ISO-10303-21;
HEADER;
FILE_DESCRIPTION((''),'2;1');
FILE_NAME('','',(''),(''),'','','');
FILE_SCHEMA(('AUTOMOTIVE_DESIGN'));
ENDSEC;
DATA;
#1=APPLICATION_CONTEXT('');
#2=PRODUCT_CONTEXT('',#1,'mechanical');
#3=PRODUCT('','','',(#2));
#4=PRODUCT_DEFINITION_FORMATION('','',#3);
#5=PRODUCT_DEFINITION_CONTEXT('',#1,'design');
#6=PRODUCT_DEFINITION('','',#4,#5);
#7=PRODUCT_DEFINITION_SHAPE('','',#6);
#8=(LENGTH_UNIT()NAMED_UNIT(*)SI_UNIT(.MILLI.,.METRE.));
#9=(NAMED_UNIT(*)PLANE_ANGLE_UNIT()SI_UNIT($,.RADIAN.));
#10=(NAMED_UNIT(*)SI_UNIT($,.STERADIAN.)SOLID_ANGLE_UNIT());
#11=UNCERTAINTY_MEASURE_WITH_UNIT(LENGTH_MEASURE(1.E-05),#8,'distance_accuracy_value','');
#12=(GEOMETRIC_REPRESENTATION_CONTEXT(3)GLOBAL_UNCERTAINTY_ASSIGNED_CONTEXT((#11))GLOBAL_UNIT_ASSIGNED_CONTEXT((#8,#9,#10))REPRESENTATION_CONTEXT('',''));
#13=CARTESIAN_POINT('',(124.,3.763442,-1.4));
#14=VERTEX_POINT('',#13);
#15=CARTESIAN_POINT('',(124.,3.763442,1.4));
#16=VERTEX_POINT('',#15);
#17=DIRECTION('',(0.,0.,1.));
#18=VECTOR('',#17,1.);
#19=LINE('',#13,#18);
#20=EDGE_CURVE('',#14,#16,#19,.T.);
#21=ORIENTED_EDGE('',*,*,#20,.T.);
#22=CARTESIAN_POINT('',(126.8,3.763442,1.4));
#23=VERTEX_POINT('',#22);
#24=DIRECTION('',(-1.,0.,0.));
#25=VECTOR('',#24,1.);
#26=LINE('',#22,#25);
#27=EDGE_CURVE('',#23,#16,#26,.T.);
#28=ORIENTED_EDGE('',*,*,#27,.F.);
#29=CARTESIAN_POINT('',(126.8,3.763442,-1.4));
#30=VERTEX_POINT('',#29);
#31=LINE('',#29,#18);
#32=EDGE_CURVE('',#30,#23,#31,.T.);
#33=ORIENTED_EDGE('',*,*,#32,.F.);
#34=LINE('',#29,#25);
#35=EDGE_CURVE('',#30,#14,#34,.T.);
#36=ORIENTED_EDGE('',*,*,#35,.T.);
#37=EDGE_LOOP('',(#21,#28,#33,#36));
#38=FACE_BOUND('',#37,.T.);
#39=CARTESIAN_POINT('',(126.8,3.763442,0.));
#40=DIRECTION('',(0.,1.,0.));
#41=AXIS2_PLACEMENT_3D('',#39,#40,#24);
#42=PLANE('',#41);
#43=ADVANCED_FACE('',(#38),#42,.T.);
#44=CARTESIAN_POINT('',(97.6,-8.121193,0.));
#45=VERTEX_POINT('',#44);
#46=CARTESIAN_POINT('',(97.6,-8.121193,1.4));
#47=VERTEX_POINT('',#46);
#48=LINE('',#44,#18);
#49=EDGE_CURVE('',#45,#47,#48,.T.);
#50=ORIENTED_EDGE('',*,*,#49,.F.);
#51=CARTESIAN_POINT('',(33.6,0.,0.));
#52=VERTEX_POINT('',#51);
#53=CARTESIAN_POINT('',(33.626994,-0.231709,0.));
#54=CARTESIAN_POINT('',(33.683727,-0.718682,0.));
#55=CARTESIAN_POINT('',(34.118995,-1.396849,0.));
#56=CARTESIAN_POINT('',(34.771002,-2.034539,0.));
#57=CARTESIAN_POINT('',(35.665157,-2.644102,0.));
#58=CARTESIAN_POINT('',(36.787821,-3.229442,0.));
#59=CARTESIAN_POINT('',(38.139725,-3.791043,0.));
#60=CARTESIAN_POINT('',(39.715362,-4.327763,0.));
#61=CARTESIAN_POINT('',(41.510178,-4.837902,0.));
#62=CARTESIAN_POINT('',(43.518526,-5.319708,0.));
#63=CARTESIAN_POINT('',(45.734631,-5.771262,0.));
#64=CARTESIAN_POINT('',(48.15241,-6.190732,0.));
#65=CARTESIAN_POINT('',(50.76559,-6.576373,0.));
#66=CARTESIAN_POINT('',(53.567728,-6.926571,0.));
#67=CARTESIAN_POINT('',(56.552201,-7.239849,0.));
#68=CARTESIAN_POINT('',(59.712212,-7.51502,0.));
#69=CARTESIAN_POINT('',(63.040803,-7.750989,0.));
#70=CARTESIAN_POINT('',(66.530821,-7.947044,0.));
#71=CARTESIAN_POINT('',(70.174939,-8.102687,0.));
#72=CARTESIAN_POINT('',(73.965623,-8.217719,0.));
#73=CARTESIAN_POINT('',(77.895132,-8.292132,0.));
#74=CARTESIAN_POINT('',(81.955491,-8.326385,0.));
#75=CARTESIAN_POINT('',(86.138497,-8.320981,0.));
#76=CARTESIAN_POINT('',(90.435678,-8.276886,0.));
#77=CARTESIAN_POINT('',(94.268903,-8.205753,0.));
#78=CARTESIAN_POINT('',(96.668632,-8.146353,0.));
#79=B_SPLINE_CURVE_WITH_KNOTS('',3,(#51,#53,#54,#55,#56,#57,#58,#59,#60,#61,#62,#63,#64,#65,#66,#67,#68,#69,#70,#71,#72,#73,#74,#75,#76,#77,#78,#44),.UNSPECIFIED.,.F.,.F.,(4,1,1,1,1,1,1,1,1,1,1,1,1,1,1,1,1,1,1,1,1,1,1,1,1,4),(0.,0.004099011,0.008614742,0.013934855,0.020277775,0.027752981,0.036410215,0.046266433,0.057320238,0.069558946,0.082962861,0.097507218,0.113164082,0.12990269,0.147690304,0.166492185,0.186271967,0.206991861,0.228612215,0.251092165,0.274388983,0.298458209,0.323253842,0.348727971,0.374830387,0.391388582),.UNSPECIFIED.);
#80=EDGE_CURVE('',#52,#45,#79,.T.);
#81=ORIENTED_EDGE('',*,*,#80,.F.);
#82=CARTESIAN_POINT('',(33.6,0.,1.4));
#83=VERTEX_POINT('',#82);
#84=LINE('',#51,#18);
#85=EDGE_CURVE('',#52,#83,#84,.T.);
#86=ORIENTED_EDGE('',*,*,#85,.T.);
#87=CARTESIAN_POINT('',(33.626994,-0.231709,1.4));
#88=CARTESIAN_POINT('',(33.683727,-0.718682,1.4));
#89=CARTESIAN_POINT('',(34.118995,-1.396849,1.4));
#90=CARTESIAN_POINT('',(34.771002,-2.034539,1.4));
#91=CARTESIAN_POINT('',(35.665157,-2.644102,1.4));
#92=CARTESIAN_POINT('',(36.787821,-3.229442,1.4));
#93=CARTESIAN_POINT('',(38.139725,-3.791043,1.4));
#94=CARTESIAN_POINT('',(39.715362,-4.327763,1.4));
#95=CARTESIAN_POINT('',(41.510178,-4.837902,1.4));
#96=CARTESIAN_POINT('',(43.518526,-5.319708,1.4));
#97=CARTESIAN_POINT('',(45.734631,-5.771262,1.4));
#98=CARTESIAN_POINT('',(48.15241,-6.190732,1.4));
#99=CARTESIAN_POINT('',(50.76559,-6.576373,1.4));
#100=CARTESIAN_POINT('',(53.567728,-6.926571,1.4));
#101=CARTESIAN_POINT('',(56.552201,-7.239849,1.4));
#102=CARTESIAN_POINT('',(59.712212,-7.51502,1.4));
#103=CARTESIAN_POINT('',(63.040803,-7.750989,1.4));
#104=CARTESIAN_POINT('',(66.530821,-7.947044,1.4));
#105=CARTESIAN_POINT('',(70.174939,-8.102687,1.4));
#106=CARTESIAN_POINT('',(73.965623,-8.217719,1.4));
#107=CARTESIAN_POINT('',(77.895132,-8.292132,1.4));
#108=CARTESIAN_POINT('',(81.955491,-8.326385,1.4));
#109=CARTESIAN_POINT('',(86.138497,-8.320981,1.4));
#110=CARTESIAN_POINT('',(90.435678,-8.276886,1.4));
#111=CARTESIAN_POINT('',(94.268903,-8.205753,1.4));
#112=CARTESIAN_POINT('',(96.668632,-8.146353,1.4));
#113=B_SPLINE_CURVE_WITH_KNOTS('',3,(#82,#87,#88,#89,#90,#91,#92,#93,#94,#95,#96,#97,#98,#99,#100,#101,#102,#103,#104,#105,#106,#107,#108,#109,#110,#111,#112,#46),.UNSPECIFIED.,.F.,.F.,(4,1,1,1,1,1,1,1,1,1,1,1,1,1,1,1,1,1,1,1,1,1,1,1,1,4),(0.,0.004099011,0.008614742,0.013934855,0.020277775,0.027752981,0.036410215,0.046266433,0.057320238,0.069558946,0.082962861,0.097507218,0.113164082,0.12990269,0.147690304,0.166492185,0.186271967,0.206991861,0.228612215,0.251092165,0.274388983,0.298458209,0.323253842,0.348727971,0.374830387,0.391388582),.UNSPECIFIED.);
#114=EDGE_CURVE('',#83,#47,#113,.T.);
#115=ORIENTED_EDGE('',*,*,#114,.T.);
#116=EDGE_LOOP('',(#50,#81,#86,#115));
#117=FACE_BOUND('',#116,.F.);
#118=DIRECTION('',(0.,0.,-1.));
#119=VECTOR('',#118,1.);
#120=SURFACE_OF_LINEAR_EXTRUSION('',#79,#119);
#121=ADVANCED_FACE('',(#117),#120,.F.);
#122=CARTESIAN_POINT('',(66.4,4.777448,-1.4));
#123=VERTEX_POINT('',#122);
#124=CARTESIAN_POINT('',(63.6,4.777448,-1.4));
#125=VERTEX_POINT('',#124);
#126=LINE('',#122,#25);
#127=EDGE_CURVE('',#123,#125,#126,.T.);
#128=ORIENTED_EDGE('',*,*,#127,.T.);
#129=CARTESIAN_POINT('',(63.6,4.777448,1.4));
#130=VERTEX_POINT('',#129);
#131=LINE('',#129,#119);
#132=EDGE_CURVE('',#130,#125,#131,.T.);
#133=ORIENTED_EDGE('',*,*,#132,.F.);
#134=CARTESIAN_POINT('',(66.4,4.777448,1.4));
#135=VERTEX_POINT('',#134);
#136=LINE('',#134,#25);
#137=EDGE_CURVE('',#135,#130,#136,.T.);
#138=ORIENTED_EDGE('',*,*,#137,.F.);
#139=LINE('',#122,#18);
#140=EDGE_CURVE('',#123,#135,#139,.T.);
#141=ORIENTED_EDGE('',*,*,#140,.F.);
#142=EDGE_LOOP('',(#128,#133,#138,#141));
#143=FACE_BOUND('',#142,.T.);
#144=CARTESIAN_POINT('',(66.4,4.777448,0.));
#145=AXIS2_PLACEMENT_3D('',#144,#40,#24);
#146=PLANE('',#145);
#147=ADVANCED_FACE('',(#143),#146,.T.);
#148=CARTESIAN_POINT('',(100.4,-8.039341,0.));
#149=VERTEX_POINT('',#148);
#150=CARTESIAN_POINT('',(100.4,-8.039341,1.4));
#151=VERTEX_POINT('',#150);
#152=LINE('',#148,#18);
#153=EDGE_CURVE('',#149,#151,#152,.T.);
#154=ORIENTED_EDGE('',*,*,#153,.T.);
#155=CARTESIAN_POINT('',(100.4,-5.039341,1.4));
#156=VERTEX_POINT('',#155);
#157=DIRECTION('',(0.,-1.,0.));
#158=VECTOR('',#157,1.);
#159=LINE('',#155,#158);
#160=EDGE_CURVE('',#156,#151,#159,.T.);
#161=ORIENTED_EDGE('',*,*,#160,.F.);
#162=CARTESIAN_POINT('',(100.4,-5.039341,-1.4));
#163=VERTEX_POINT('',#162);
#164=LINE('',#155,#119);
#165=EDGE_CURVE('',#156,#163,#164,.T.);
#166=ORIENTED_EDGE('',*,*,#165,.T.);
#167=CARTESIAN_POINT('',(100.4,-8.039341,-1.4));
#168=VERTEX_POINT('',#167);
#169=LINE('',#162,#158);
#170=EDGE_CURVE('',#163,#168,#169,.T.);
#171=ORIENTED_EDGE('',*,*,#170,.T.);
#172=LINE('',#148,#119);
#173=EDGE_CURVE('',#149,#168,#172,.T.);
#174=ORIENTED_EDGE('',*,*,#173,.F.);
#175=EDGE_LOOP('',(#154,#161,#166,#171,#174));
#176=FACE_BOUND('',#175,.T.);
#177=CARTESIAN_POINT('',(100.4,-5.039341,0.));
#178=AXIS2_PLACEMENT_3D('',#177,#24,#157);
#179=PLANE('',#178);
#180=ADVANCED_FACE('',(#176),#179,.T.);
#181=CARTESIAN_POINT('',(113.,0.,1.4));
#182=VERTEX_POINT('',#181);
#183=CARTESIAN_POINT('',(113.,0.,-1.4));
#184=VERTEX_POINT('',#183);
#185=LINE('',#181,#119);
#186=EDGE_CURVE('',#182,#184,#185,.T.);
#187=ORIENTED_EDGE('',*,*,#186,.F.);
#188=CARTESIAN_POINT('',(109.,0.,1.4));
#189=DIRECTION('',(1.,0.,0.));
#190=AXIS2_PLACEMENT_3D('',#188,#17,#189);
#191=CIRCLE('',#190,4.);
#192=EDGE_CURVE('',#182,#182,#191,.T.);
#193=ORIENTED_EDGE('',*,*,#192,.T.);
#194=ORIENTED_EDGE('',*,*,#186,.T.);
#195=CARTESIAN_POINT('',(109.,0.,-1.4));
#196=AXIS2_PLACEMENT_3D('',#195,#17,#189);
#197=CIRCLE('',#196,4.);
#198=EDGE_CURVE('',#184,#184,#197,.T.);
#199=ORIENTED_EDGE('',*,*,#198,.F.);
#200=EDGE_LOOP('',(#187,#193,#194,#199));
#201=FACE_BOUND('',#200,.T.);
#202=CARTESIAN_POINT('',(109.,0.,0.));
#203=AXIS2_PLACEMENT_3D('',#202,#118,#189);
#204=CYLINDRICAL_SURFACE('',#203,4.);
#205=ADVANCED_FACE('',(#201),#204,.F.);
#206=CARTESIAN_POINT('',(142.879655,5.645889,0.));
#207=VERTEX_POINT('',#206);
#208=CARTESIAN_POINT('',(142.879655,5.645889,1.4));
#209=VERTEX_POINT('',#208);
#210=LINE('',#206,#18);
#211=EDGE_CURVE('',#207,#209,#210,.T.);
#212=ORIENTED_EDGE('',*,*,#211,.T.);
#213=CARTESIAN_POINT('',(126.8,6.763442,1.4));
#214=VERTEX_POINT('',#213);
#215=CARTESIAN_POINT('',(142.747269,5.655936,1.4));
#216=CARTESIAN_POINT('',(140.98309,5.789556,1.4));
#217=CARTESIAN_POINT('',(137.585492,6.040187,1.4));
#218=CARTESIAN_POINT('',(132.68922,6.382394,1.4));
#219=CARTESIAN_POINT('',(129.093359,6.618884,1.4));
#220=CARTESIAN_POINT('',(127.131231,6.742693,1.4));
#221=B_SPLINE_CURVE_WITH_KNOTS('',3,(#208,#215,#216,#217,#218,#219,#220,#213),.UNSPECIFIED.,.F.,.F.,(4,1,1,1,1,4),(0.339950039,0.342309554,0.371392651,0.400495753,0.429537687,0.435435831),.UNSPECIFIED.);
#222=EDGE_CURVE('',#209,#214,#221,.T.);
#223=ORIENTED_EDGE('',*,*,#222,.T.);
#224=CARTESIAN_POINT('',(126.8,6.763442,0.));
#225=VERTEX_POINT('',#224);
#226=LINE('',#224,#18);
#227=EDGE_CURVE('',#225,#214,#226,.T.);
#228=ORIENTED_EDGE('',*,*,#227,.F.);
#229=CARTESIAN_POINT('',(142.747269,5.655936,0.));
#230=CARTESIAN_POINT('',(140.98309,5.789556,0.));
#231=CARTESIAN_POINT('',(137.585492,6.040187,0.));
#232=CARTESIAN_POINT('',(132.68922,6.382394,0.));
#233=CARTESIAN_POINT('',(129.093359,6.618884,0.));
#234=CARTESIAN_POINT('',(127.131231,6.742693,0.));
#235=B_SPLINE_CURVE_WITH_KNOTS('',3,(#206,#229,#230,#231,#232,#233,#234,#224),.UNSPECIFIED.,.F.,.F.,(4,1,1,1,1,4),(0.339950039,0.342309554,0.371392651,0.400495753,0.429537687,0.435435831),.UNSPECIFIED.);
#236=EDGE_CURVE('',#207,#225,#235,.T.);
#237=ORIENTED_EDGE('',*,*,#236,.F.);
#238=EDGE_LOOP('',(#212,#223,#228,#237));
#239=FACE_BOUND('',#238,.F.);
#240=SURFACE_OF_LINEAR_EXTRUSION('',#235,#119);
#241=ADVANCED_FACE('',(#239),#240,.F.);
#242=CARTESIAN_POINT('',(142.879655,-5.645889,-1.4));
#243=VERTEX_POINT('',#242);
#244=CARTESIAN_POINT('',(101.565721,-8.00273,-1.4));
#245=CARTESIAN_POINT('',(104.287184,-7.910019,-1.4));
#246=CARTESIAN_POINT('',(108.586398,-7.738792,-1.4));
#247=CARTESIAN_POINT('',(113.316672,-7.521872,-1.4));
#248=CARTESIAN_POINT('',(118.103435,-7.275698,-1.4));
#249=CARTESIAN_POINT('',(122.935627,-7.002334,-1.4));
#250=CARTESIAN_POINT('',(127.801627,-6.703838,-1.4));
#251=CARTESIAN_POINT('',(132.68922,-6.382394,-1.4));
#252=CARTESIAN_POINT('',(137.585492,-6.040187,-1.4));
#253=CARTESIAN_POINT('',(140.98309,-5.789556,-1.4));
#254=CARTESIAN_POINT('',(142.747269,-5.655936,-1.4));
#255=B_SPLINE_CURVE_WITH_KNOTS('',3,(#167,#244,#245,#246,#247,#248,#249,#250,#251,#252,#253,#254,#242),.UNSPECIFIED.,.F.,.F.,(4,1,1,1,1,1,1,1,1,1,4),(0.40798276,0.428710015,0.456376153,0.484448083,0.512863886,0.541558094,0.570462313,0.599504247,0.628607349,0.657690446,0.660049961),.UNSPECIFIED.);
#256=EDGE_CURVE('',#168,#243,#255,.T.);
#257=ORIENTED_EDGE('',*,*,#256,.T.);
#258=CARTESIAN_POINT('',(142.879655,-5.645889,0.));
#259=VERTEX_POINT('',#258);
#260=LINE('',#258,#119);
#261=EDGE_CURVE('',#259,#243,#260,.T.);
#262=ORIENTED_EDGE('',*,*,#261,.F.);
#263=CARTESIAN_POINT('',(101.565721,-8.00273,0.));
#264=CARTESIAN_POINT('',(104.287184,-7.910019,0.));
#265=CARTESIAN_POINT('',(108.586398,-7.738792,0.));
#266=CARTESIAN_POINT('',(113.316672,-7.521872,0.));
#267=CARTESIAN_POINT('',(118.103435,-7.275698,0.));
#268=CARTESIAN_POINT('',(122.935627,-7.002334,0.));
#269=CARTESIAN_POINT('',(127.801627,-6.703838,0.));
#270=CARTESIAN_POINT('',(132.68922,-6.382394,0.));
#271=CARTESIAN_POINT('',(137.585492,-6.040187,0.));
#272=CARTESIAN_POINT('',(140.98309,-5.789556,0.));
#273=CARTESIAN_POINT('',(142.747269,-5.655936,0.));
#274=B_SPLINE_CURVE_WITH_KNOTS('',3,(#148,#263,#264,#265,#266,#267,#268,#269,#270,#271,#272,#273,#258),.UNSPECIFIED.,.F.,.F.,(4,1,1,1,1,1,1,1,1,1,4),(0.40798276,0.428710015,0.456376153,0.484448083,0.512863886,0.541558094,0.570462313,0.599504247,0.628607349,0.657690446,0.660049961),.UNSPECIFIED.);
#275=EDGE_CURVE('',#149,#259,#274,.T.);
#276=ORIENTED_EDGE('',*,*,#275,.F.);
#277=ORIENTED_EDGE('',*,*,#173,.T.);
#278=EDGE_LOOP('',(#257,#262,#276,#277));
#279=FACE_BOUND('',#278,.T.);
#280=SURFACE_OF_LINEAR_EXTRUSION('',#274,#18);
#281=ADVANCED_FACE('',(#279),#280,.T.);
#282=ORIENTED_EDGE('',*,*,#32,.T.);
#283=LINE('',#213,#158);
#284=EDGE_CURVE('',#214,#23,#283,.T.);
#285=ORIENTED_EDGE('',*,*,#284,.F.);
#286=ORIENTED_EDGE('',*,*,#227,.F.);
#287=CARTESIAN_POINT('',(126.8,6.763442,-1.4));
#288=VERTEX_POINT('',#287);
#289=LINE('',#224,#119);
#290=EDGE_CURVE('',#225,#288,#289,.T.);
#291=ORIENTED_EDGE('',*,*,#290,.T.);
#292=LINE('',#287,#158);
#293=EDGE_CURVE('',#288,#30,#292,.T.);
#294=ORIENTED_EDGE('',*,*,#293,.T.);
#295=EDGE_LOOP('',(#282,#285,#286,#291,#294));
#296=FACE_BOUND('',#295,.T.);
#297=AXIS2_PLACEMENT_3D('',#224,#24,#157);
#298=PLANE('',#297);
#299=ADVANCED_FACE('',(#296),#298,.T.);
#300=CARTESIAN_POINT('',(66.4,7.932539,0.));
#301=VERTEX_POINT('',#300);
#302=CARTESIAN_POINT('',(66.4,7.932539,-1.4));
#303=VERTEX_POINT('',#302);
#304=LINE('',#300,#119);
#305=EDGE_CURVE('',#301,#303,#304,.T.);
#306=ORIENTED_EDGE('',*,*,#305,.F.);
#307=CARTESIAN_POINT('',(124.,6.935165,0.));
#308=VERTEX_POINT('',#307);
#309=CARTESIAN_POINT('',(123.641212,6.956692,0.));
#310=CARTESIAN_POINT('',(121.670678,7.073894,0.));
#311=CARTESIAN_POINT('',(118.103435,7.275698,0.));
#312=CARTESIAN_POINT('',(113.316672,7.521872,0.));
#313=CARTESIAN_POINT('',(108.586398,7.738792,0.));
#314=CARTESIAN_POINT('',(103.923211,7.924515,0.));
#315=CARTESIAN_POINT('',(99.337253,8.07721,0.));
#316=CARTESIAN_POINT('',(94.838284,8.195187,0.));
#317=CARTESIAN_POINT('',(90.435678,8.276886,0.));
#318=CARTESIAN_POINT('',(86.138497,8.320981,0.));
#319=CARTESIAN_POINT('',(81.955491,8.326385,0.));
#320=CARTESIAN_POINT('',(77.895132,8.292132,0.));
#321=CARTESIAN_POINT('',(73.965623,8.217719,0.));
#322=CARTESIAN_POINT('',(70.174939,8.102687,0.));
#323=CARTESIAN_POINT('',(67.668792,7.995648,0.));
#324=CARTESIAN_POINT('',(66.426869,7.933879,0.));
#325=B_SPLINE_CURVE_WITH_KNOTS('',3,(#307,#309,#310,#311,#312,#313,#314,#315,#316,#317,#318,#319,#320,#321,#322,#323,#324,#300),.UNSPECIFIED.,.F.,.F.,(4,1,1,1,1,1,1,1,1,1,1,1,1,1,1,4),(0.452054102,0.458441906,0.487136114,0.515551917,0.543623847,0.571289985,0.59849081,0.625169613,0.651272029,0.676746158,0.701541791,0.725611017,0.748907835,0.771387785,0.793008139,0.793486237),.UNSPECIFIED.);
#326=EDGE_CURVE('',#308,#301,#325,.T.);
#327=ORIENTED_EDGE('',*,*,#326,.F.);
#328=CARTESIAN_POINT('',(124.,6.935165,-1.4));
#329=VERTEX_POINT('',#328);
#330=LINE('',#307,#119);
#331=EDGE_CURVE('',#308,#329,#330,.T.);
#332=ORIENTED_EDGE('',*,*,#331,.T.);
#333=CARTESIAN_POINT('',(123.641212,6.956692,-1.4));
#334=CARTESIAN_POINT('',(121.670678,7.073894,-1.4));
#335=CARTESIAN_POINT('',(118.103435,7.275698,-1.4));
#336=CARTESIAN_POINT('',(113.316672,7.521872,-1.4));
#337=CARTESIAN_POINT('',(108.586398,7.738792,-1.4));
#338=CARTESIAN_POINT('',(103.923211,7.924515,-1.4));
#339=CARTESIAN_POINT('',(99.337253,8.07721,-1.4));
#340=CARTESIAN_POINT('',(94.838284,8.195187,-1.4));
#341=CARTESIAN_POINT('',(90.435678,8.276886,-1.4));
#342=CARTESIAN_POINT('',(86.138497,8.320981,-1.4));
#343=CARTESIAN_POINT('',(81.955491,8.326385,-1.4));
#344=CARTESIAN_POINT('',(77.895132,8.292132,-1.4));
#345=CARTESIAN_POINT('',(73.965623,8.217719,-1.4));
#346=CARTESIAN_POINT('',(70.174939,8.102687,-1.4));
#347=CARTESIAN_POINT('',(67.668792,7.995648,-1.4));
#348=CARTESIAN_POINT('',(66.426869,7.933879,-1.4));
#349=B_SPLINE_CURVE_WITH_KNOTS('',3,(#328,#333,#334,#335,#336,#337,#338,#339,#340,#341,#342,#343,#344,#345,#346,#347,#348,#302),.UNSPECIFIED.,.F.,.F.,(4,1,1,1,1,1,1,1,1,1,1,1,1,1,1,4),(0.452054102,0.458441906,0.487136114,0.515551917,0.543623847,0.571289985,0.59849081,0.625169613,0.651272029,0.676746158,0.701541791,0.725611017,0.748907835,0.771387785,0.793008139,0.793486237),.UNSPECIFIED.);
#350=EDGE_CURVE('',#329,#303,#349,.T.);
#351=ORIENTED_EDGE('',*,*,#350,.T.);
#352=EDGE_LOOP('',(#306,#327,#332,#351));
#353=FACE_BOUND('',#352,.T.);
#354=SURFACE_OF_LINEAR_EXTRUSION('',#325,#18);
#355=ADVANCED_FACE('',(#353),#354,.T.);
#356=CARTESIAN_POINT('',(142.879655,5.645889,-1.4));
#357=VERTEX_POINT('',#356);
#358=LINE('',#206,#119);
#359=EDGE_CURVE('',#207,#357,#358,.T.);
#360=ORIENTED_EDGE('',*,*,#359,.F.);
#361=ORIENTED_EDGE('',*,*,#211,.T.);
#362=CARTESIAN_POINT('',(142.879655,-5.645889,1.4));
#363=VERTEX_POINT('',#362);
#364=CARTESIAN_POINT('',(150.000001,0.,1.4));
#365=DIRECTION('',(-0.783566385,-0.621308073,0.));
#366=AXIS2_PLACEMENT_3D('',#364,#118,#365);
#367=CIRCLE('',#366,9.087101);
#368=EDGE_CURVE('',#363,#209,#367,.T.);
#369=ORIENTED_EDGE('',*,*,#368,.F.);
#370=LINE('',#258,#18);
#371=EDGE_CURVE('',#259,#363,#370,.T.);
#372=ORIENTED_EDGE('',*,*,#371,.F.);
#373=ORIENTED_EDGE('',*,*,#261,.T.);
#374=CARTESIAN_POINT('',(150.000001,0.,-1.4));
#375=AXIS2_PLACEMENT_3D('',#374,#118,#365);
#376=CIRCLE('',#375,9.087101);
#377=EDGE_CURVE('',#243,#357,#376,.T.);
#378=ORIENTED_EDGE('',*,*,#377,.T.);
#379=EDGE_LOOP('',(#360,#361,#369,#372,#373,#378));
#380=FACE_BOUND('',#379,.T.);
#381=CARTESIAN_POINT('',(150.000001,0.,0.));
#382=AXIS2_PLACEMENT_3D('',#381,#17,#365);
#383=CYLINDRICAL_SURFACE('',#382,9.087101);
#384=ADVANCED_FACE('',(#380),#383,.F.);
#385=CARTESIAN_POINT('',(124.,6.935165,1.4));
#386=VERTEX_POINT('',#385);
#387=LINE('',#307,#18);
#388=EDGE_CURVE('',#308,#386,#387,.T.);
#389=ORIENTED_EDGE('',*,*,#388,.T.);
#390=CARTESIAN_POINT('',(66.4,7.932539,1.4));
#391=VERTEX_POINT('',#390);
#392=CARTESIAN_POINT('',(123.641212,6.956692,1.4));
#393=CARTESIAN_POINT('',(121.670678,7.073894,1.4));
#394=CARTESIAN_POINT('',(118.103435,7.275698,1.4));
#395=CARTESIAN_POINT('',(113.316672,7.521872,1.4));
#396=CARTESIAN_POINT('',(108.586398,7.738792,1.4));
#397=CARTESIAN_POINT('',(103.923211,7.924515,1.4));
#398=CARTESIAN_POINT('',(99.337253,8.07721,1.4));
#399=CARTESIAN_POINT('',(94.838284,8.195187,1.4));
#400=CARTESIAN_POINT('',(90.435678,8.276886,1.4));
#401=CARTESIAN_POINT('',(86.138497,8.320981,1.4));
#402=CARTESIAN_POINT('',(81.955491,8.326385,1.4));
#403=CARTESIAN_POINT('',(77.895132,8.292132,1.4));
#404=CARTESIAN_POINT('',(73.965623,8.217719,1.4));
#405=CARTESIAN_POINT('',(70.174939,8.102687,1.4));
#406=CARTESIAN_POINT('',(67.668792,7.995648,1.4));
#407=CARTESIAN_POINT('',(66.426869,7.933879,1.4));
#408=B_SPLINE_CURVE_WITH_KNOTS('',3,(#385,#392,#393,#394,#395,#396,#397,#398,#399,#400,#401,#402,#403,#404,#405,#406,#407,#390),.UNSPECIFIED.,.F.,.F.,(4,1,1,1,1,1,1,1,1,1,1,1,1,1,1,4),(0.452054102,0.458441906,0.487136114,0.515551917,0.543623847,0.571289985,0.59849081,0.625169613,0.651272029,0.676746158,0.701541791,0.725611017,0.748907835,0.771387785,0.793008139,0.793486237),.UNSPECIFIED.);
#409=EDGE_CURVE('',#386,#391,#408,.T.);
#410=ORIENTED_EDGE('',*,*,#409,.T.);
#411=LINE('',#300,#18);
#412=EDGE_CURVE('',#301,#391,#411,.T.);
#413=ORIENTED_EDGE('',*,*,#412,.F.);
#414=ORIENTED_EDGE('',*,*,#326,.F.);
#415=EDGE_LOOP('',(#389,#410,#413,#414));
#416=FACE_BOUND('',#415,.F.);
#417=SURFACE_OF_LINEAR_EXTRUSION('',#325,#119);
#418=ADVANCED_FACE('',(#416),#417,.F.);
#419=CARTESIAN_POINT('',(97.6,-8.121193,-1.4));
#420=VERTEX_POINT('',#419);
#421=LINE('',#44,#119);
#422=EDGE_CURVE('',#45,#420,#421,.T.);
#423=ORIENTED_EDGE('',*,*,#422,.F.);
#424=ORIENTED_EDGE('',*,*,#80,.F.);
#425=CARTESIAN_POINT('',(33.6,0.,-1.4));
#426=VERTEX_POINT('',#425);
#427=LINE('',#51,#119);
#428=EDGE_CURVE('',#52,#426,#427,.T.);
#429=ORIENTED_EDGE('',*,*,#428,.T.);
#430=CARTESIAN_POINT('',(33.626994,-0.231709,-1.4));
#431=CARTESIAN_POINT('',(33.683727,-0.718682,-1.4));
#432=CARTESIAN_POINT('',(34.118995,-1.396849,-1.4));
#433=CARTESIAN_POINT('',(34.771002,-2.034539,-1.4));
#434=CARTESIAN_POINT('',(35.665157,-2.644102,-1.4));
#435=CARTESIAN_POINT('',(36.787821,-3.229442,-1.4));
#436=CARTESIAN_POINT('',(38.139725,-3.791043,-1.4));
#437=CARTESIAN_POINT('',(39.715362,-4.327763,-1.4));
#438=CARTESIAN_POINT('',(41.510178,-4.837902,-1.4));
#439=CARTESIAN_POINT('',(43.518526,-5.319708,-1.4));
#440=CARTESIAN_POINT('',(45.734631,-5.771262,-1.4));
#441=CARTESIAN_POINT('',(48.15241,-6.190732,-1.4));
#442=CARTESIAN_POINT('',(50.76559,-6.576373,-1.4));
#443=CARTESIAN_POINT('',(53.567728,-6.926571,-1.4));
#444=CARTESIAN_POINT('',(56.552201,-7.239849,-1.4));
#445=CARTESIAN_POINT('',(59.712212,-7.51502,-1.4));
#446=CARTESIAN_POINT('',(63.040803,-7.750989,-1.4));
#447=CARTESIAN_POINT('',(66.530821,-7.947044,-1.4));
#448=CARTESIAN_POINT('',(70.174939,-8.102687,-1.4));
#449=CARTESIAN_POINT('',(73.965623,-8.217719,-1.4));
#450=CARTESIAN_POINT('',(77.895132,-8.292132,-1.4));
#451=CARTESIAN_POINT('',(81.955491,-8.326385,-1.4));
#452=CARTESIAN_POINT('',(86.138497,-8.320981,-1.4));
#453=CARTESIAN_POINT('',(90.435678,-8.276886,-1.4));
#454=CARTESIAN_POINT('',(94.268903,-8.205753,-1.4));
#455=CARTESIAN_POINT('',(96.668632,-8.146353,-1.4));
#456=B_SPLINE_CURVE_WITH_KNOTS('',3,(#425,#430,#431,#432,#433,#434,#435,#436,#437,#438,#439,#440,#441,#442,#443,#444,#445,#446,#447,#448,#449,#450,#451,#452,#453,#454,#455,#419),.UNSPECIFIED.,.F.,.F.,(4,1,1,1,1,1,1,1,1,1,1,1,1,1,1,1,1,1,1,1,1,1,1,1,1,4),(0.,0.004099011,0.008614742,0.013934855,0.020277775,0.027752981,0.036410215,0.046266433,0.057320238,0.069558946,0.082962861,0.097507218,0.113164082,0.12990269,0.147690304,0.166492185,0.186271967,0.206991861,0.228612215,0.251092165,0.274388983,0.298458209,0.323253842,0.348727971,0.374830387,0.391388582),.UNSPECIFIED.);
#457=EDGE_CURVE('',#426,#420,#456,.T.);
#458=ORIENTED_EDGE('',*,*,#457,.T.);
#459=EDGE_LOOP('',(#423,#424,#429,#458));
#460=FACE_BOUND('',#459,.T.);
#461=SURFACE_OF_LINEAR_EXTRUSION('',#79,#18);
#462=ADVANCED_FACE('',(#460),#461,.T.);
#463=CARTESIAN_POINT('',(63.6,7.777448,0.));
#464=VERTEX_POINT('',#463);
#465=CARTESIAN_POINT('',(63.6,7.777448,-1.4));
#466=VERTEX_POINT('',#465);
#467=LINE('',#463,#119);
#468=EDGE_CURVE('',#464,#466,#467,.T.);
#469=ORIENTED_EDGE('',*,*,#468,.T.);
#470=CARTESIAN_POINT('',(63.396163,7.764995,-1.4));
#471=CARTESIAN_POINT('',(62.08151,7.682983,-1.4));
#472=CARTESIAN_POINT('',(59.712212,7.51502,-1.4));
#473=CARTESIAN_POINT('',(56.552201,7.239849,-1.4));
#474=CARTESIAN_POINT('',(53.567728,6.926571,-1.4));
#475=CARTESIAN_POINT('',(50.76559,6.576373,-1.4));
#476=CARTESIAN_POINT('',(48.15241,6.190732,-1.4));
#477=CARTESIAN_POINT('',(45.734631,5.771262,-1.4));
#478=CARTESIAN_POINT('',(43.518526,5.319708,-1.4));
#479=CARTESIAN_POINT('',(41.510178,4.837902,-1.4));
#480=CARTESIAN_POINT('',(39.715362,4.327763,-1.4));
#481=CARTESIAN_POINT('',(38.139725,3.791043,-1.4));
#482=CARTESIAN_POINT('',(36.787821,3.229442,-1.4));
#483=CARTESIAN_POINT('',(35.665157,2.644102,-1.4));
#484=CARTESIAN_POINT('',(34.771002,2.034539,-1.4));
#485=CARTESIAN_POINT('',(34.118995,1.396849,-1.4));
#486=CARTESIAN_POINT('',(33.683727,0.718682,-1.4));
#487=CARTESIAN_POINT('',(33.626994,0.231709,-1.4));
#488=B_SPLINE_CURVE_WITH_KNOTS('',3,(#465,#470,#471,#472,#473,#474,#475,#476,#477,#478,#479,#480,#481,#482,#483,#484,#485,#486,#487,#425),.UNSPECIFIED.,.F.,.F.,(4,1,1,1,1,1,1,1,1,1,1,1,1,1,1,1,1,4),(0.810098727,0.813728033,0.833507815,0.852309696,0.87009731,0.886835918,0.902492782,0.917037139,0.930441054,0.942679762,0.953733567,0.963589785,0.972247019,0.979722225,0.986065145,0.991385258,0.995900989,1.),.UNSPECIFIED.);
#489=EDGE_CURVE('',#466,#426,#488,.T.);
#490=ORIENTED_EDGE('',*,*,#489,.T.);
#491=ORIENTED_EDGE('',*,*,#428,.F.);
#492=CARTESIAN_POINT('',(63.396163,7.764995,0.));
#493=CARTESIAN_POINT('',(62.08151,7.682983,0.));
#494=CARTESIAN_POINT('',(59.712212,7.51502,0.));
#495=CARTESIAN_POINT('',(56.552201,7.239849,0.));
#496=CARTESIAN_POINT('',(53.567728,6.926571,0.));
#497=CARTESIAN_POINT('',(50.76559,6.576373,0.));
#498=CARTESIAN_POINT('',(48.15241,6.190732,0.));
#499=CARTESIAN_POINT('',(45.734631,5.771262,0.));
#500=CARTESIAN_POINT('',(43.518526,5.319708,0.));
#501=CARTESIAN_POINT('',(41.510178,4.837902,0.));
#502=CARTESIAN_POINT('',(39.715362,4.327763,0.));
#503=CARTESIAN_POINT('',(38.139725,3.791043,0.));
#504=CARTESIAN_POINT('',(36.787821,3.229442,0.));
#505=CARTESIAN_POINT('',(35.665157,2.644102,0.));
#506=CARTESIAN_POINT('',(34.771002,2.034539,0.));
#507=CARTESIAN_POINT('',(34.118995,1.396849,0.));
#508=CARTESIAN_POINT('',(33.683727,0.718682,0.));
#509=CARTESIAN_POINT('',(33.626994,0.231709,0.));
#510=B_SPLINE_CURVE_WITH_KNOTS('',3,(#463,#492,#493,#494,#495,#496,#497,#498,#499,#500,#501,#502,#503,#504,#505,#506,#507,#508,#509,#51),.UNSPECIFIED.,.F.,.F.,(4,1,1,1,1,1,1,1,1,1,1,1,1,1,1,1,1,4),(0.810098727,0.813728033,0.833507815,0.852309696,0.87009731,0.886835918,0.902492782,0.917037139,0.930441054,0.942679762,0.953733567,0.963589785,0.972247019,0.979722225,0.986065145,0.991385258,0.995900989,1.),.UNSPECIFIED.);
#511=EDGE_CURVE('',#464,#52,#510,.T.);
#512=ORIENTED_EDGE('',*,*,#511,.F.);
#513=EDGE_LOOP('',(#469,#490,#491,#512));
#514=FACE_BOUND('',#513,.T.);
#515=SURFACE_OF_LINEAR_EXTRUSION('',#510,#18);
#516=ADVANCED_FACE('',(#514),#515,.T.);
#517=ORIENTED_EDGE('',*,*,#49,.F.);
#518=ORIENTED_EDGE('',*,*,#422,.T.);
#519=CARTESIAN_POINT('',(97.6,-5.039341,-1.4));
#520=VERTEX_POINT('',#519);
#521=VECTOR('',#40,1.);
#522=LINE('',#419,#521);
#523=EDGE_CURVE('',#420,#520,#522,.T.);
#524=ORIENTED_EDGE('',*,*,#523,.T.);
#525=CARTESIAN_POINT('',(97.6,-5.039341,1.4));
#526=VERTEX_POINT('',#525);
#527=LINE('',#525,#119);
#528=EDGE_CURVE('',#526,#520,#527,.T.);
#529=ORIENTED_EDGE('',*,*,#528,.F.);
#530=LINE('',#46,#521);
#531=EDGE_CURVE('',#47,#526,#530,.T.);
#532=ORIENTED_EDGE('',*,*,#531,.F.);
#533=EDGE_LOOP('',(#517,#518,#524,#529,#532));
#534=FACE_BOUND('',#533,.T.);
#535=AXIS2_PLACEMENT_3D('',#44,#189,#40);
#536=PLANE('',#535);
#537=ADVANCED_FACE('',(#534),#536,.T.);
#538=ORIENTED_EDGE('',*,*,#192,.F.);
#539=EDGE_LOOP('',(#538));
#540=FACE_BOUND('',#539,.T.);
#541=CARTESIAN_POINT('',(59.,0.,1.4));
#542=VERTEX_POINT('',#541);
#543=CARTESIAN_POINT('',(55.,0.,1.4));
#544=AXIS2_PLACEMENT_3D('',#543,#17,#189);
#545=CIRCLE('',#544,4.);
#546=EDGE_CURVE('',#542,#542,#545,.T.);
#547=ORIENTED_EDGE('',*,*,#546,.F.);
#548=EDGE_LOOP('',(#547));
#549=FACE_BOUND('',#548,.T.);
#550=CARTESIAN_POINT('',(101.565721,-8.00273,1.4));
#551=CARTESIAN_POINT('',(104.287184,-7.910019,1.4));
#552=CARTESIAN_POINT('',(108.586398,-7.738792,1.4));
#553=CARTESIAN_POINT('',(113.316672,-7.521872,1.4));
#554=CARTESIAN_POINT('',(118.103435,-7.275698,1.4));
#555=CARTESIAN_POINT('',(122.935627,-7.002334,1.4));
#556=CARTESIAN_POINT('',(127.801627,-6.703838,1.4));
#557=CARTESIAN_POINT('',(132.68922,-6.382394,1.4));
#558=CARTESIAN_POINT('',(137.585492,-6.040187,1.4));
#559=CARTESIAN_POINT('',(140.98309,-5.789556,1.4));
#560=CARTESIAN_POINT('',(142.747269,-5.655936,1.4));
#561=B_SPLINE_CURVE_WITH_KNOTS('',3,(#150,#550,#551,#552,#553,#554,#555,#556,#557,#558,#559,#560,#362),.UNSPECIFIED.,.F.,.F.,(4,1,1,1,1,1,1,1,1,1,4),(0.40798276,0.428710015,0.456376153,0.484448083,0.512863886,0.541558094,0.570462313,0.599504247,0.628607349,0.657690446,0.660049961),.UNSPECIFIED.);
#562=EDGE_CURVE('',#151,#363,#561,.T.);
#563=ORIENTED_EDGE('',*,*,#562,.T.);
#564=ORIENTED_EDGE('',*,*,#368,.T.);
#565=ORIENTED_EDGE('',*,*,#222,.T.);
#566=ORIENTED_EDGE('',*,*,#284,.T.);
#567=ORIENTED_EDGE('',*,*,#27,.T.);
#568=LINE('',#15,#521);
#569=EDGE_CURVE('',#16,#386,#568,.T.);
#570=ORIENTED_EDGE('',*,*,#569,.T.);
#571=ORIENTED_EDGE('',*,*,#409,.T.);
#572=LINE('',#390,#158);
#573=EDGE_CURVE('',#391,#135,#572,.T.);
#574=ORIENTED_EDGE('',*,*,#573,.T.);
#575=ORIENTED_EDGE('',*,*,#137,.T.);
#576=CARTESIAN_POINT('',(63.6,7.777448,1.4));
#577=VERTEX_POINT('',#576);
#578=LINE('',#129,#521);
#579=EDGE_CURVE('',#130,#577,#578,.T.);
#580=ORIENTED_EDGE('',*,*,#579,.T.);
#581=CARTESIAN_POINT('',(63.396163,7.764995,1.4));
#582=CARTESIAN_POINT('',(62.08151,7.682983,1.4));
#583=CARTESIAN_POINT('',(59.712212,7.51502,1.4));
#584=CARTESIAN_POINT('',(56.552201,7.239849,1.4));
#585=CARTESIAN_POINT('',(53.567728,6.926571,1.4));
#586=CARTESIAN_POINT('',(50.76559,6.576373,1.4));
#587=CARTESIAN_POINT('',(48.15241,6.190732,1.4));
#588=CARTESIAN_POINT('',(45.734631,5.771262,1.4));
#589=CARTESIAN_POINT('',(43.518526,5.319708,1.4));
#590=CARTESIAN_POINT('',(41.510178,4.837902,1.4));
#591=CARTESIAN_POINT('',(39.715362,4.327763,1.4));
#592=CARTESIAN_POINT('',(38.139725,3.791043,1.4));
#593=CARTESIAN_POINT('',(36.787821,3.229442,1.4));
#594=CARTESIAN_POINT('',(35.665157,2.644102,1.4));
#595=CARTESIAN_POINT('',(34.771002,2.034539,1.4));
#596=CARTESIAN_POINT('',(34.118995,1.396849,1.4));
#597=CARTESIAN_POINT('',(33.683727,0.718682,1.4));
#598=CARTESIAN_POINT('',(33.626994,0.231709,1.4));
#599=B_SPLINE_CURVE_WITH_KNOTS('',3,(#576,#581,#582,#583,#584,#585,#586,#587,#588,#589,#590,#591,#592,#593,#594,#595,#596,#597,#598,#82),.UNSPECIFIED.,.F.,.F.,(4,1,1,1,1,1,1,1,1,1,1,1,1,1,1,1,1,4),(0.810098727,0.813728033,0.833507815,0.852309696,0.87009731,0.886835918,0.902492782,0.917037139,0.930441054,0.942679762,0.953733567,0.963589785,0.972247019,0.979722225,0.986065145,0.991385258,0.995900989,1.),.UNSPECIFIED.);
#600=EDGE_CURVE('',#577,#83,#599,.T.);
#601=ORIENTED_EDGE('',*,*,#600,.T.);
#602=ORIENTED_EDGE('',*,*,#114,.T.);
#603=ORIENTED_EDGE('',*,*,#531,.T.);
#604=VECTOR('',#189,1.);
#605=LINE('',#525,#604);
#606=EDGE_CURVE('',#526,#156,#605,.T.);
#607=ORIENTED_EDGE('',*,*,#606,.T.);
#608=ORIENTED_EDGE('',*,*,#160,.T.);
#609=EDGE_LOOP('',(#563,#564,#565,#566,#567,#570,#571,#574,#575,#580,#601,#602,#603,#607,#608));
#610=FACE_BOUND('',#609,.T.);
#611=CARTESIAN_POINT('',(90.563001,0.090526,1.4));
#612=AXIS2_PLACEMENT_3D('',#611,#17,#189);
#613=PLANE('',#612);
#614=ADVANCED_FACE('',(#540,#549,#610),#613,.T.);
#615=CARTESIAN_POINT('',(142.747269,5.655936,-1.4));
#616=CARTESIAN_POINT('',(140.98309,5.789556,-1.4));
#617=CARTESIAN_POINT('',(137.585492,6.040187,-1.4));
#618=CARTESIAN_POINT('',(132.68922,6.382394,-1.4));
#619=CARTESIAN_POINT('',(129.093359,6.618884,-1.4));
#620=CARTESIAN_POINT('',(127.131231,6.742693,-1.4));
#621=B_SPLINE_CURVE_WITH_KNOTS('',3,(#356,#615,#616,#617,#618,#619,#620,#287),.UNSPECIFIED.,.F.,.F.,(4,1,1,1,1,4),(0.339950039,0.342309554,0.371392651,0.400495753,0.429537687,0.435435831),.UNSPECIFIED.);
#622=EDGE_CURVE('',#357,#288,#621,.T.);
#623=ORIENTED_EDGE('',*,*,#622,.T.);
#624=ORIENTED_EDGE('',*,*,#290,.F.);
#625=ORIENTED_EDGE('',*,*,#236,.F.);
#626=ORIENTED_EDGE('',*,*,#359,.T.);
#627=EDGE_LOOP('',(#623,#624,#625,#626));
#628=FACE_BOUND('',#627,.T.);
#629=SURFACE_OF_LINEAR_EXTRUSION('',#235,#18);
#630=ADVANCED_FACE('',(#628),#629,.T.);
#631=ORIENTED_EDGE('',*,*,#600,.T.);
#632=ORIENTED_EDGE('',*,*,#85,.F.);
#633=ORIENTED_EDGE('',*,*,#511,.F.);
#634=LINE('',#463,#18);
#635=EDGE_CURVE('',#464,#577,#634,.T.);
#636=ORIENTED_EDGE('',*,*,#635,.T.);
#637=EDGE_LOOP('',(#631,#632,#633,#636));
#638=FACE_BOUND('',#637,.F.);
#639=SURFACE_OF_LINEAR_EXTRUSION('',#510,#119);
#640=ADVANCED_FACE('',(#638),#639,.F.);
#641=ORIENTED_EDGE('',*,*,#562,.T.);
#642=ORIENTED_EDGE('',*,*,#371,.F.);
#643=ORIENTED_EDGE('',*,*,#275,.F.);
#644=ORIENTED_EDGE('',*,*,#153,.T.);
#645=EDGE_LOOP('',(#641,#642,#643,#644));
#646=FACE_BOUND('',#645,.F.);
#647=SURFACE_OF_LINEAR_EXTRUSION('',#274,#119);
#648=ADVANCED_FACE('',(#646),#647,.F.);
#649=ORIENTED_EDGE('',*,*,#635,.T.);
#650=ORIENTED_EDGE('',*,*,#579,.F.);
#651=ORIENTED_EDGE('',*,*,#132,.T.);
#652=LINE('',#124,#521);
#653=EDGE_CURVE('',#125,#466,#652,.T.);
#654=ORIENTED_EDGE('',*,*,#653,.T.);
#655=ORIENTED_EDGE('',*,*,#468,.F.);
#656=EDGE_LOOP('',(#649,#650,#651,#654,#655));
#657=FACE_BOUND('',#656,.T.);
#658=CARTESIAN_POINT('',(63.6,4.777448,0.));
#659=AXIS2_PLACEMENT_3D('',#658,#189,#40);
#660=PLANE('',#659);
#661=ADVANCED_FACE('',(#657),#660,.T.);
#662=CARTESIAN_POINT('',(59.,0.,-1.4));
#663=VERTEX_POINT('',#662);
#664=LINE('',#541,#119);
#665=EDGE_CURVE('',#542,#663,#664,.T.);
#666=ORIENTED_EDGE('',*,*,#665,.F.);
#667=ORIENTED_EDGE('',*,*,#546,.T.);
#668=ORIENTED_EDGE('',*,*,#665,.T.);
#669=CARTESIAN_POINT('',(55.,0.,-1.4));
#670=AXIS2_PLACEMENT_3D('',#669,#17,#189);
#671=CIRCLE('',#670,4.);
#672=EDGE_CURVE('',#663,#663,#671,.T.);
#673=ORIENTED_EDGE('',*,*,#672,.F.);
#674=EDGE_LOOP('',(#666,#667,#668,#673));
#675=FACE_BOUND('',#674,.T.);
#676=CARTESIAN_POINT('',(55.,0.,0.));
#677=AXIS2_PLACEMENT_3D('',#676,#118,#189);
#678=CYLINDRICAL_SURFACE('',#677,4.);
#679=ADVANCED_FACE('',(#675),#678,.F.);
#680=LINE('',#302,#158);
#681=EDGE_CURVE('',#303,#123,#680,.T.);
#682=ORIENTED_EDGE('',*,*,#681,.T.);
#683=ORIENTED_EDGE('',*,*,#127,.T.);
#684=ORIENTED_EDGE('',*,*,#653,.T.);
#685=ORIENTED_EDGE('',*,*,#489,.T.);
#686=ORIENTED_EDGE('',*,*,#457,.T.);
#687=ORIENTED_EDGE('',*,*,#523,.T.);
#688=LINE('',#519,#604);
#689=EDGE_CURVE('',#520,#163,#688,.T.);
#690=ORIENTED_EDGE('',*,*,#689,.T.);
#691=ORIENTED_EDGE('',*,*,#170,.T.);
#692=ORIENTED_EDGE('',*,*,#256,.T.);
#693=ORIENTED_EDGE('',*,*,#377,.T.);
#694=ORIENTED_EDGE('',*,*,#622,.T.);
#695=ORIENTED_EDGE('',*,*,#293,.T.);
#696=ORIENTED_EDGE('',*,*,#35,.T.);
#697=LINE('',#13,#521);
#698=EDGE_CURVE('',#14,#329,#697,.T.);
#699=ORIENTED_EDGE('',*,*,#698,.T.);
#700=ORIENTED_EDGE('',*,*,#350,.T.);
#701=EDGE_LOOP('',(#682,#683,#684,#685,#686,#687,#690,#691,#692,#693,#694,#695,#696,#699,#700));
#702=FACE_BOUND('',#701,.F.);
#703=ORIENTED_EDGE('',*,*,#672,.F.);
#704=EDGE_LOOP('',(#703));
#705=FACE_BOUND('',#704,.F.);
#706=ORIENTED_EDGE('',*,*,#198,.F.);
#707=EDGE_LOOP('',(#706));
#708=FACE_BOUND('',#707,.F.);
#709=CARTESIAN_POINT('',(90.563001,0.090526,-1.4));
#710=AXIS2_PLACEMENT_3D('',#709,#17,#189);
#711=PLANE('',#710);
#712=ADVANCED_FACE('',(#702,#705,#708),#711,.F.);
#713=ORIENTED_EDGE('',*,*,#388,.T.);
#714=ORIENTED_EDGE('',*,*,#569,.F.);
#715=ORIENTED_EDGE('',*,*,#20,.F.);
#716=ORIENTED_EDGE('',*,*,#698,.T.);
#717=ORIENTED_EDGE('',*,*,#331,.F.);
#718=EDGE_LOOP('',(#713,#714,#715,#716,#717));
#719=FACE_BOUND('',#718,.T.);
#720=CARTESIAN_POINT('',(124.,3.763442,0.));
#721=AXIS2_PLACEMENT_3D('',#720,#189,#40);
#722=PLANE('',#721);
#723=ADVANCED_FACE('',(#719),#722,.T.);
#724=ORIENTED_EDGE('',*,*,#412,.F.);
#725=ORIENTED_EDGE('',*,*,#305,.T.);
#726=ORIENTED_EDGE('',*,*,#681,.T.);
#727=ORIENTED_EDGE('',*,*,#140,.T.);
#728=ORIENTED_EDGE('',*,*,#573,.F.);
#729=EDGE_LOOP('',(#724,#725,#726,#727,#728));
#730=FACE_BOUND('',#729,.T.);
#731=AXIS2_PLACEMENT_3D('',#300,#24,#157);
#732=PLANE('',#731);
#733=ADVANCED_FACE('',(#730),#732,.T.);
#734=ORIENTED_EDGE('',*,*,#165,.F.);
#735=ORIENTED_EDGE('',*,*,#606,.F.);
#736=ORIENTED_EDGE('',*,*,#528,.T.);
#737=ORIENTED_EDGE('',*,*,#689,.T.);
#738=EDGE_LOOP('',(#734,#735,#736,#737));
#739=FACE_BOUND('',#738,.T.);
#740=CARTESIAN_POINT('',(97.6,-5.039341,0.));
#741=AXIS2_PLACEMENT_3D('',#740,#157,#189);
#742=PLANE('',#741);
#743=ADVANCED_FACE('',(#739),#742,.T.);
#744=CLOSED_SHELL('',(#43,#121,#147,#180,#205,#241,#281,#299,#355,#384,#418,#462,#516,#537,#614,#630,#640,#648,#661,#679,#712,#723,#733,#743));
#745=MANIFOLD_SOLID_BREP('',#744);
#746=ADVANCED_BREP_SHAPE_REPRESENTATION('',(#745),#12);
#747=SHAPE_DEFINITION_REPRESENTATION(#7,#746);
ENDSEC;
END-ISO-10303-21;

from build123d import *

# Parameters (mm, degrees)
SKETCH_1_R      = 4
EXTRUDE_1_DEPTH = 1.4


with BuildPart() as part:
    # Эскиз1 → Бобышка-Вытянуть1 (new, symmetric)
    with BuildSketch(Plane.XY):
        with BuildLine():
            ThreePointArc((142.879654521, -5.645889143), (140.91290042, 0), (142.879654521, 5.645889143))
            add(Edge.make_bspline(
                [(142.879654521, 5.645889143), (142.747268556, 5.655935735), (140.983089587, 5.789556497), (137.585492165, 6.040187447), (132.68922042, 6.382393711), (129.093359344, 6.61888416), (127.131231234, 6.742693318), (126.8, 6.763442063)],
                knots=[0.339950039, 0.339950039, 0.339950039, 0.339950039, 0.342309554, 0.371392651, 0.400495753, 0.429537687, 0.435435831, 0.435435831, 0.435435831, 0.435435831], degree=3))
            Line((126.8, 6.763442063), (126.8, 3.763442063))
            Line((126.8, 3.763442063), (124, 3.763442063))
            Line((124, 3.763442063), (124, 6.935165252))
            add(Edge.make_bspline(
                [(124, 6.935165252), (123.641212233, 6.956691636), (121.670677761, 7.073894152), (118.103435227, 7.275698401), (113.316671904, 7.521871639), (108.586398202, 7.738792494), (103.923211277, 7.924514665), (99.337253306, 8.077210344), (94.83828356, 8.195186848), (90.435677893, 8.276886408), (86.138497273, 8.320981466), (81.955490955, 8.326384834), (77.89513162, 8.292131727), (73.965623193, 8.217718888), (70.174939177, 8.10268745), (67.668791632, 7.99564794), (66.426868705, 7.933879191), (66.4, 7.93253874)],
                knots=[0.452054102, 0.452054102, 0.452054102, 0.452054102, 0.458441906, 0.487136114, 0.515551917, 0.543623847, 0.571289985, 0.59849081, 0.625169613, 0.651272029, 0.676746158, 0.701541791, 0.725611017, 0.748907835, 0.771387785, 0.793008139, 0.793486237, 0.793486237, 0.793486237, 0.793486237], degree=3))
            Line((66.4, 7.93253874), (66.4, 4.777447755))
            Line((66.4, 4.777447755), (63.6, 4.777447755))
            Line((63.6, 4.777447755), (63.6, 7.777447755))
            add(Edge.make_bspline(
                [(63.6, 7.777447755), (63.396162512, 7.764994786), (62.081509824, 7.682983398), (59.712211754, 7.515019975), (56.552200858, 7.239849215), (53.56772758, 6.926570619), (50.765590148, 6.57637304), (48.152410031, 6.190731972), (45.734630901, 5.771261543), (43.518525859, 5.319707647), (41.510178464, 4.837901503), (39.715362287, 4.3277629), (38.139724526, 3.791042715), (36.787821083, 3.229441513), (35.665157045, 2.644102252), (34.771002159, 2.034538769), (34.118995376, 1.396849457), (33.68372682, 0.718681816), (33.626994167, 0.231708516), (33.6, 0)],
                knots=[0.810098727, 0.810098727, 0.810098727, 0.810098727, 0.813728033, 0.833507815, 0.852309696, 0.87009731, 0.886835918, 0.902492782, 0.917037139, 0.930441054, 0.942679762, 0.953733567, 0.963589785, 0.972247019, 0.979722225, 0.986065145, 0.991385258, 0.995900989, 1, 1, 1, 1], degree=3))
            add(Edge.make_bspline(
                [(33.6, 0), (33.626994167, -0.231708516), (33.68372682, -0.718681816), (34.118995376, -1.396849457), (34.771002159, -2.034538769), (35.665157045, -2.644102252), (36.787821083, -3.229441513), (38.139724526, -3.791042715), (39.715362287, -4.3277629), (41.510178464, -4.837901503), (43.518525859, -5.319707647), (45.734630901, -5.771261543), (48.152410031, -6.190731972), (50.765590148, -6.57637304), (53.56772758, -6.926570619), (56.552200858, -7.239849215), (59.712211754, -7.515019975), (63.040803104, -7.750989271), (66.530820659, -7.947044314), (70.174939177, -8.10268745), (73.965623193, -8.217718888), (77.89513162, -8.292131727), (81.955490955, -8.326384834), (86.138497273, -8.320981466), (90.435677893, -8.276886408), (94.268903337, -8.20575289), (96.668631576, -8.146352686), (97.6, -8.121192528)],
                knots=[0, 0, 0, 0, 0.004099011, 0.008614742, 0.013934855, 0.020277775, 0.027752981, 0.036410215, 0.046266433, 0.057320238, 0.069558946, 0.082962861, 0.097507218, 0.113164082, 0.12990269, 0.147690304, 0.166492185, 0.186271967, 0.206991861, 0.228612215, 0.251092165, 0.274388983, 0.298458209, 0.323253842, 0.348727971, 0.374830387, 0.391388582, 0.391388582, 0.391388582, 0.391388582], degree=3))
            Line((97.6, -8.121192528), (97.6, -5.039340517))
            Line((97.6, -5.039340517), (100.4, -5.039340517))
            Line((100.4, -5.039340517), (100.4, -8.039340517))
            add(Edge.make_bspline(
                [(100.400000001, -8.039340517), (101.56572059, -8.002730044), (104.287183669, -7.910018625), (108.586398202, -7.738792494), (113.316671904, -7.521871639), (118.103435227, -7.275698401), (122.935626987, -7.002334081), (127.801626972, -6.703838046), (132.68922042, -6.382393711), (137.585492165, -6.040187447), (140.983089587, -5.789556497), (142.747268556, -5.655935735), (142.879654521, -5.645889143)],
                knots=[0.40798276, 0.40798276, 0.40798276, 0.40798276, 0.428710015, 0.456376153, 0.484448083, 0.512863886, 0.541558094, 0.570462313, 0.599504247, 0.628607349, 0.657690446, 0.660049961, 0.660049961, 0.660049961, 0.660049961], degree=3))
        make_face()
        with Locations((55, 0)):
            Circle(SKETCH_1_R, mode=Mode.SUBTRACT)
        with Locations((109, 0)):
            Circle(SKETCH_1_R, mode=Mode.SUBTRACT)
    extrude(amount=EXTRUDE_1_DEPTH, both=True)


solid = part.part
